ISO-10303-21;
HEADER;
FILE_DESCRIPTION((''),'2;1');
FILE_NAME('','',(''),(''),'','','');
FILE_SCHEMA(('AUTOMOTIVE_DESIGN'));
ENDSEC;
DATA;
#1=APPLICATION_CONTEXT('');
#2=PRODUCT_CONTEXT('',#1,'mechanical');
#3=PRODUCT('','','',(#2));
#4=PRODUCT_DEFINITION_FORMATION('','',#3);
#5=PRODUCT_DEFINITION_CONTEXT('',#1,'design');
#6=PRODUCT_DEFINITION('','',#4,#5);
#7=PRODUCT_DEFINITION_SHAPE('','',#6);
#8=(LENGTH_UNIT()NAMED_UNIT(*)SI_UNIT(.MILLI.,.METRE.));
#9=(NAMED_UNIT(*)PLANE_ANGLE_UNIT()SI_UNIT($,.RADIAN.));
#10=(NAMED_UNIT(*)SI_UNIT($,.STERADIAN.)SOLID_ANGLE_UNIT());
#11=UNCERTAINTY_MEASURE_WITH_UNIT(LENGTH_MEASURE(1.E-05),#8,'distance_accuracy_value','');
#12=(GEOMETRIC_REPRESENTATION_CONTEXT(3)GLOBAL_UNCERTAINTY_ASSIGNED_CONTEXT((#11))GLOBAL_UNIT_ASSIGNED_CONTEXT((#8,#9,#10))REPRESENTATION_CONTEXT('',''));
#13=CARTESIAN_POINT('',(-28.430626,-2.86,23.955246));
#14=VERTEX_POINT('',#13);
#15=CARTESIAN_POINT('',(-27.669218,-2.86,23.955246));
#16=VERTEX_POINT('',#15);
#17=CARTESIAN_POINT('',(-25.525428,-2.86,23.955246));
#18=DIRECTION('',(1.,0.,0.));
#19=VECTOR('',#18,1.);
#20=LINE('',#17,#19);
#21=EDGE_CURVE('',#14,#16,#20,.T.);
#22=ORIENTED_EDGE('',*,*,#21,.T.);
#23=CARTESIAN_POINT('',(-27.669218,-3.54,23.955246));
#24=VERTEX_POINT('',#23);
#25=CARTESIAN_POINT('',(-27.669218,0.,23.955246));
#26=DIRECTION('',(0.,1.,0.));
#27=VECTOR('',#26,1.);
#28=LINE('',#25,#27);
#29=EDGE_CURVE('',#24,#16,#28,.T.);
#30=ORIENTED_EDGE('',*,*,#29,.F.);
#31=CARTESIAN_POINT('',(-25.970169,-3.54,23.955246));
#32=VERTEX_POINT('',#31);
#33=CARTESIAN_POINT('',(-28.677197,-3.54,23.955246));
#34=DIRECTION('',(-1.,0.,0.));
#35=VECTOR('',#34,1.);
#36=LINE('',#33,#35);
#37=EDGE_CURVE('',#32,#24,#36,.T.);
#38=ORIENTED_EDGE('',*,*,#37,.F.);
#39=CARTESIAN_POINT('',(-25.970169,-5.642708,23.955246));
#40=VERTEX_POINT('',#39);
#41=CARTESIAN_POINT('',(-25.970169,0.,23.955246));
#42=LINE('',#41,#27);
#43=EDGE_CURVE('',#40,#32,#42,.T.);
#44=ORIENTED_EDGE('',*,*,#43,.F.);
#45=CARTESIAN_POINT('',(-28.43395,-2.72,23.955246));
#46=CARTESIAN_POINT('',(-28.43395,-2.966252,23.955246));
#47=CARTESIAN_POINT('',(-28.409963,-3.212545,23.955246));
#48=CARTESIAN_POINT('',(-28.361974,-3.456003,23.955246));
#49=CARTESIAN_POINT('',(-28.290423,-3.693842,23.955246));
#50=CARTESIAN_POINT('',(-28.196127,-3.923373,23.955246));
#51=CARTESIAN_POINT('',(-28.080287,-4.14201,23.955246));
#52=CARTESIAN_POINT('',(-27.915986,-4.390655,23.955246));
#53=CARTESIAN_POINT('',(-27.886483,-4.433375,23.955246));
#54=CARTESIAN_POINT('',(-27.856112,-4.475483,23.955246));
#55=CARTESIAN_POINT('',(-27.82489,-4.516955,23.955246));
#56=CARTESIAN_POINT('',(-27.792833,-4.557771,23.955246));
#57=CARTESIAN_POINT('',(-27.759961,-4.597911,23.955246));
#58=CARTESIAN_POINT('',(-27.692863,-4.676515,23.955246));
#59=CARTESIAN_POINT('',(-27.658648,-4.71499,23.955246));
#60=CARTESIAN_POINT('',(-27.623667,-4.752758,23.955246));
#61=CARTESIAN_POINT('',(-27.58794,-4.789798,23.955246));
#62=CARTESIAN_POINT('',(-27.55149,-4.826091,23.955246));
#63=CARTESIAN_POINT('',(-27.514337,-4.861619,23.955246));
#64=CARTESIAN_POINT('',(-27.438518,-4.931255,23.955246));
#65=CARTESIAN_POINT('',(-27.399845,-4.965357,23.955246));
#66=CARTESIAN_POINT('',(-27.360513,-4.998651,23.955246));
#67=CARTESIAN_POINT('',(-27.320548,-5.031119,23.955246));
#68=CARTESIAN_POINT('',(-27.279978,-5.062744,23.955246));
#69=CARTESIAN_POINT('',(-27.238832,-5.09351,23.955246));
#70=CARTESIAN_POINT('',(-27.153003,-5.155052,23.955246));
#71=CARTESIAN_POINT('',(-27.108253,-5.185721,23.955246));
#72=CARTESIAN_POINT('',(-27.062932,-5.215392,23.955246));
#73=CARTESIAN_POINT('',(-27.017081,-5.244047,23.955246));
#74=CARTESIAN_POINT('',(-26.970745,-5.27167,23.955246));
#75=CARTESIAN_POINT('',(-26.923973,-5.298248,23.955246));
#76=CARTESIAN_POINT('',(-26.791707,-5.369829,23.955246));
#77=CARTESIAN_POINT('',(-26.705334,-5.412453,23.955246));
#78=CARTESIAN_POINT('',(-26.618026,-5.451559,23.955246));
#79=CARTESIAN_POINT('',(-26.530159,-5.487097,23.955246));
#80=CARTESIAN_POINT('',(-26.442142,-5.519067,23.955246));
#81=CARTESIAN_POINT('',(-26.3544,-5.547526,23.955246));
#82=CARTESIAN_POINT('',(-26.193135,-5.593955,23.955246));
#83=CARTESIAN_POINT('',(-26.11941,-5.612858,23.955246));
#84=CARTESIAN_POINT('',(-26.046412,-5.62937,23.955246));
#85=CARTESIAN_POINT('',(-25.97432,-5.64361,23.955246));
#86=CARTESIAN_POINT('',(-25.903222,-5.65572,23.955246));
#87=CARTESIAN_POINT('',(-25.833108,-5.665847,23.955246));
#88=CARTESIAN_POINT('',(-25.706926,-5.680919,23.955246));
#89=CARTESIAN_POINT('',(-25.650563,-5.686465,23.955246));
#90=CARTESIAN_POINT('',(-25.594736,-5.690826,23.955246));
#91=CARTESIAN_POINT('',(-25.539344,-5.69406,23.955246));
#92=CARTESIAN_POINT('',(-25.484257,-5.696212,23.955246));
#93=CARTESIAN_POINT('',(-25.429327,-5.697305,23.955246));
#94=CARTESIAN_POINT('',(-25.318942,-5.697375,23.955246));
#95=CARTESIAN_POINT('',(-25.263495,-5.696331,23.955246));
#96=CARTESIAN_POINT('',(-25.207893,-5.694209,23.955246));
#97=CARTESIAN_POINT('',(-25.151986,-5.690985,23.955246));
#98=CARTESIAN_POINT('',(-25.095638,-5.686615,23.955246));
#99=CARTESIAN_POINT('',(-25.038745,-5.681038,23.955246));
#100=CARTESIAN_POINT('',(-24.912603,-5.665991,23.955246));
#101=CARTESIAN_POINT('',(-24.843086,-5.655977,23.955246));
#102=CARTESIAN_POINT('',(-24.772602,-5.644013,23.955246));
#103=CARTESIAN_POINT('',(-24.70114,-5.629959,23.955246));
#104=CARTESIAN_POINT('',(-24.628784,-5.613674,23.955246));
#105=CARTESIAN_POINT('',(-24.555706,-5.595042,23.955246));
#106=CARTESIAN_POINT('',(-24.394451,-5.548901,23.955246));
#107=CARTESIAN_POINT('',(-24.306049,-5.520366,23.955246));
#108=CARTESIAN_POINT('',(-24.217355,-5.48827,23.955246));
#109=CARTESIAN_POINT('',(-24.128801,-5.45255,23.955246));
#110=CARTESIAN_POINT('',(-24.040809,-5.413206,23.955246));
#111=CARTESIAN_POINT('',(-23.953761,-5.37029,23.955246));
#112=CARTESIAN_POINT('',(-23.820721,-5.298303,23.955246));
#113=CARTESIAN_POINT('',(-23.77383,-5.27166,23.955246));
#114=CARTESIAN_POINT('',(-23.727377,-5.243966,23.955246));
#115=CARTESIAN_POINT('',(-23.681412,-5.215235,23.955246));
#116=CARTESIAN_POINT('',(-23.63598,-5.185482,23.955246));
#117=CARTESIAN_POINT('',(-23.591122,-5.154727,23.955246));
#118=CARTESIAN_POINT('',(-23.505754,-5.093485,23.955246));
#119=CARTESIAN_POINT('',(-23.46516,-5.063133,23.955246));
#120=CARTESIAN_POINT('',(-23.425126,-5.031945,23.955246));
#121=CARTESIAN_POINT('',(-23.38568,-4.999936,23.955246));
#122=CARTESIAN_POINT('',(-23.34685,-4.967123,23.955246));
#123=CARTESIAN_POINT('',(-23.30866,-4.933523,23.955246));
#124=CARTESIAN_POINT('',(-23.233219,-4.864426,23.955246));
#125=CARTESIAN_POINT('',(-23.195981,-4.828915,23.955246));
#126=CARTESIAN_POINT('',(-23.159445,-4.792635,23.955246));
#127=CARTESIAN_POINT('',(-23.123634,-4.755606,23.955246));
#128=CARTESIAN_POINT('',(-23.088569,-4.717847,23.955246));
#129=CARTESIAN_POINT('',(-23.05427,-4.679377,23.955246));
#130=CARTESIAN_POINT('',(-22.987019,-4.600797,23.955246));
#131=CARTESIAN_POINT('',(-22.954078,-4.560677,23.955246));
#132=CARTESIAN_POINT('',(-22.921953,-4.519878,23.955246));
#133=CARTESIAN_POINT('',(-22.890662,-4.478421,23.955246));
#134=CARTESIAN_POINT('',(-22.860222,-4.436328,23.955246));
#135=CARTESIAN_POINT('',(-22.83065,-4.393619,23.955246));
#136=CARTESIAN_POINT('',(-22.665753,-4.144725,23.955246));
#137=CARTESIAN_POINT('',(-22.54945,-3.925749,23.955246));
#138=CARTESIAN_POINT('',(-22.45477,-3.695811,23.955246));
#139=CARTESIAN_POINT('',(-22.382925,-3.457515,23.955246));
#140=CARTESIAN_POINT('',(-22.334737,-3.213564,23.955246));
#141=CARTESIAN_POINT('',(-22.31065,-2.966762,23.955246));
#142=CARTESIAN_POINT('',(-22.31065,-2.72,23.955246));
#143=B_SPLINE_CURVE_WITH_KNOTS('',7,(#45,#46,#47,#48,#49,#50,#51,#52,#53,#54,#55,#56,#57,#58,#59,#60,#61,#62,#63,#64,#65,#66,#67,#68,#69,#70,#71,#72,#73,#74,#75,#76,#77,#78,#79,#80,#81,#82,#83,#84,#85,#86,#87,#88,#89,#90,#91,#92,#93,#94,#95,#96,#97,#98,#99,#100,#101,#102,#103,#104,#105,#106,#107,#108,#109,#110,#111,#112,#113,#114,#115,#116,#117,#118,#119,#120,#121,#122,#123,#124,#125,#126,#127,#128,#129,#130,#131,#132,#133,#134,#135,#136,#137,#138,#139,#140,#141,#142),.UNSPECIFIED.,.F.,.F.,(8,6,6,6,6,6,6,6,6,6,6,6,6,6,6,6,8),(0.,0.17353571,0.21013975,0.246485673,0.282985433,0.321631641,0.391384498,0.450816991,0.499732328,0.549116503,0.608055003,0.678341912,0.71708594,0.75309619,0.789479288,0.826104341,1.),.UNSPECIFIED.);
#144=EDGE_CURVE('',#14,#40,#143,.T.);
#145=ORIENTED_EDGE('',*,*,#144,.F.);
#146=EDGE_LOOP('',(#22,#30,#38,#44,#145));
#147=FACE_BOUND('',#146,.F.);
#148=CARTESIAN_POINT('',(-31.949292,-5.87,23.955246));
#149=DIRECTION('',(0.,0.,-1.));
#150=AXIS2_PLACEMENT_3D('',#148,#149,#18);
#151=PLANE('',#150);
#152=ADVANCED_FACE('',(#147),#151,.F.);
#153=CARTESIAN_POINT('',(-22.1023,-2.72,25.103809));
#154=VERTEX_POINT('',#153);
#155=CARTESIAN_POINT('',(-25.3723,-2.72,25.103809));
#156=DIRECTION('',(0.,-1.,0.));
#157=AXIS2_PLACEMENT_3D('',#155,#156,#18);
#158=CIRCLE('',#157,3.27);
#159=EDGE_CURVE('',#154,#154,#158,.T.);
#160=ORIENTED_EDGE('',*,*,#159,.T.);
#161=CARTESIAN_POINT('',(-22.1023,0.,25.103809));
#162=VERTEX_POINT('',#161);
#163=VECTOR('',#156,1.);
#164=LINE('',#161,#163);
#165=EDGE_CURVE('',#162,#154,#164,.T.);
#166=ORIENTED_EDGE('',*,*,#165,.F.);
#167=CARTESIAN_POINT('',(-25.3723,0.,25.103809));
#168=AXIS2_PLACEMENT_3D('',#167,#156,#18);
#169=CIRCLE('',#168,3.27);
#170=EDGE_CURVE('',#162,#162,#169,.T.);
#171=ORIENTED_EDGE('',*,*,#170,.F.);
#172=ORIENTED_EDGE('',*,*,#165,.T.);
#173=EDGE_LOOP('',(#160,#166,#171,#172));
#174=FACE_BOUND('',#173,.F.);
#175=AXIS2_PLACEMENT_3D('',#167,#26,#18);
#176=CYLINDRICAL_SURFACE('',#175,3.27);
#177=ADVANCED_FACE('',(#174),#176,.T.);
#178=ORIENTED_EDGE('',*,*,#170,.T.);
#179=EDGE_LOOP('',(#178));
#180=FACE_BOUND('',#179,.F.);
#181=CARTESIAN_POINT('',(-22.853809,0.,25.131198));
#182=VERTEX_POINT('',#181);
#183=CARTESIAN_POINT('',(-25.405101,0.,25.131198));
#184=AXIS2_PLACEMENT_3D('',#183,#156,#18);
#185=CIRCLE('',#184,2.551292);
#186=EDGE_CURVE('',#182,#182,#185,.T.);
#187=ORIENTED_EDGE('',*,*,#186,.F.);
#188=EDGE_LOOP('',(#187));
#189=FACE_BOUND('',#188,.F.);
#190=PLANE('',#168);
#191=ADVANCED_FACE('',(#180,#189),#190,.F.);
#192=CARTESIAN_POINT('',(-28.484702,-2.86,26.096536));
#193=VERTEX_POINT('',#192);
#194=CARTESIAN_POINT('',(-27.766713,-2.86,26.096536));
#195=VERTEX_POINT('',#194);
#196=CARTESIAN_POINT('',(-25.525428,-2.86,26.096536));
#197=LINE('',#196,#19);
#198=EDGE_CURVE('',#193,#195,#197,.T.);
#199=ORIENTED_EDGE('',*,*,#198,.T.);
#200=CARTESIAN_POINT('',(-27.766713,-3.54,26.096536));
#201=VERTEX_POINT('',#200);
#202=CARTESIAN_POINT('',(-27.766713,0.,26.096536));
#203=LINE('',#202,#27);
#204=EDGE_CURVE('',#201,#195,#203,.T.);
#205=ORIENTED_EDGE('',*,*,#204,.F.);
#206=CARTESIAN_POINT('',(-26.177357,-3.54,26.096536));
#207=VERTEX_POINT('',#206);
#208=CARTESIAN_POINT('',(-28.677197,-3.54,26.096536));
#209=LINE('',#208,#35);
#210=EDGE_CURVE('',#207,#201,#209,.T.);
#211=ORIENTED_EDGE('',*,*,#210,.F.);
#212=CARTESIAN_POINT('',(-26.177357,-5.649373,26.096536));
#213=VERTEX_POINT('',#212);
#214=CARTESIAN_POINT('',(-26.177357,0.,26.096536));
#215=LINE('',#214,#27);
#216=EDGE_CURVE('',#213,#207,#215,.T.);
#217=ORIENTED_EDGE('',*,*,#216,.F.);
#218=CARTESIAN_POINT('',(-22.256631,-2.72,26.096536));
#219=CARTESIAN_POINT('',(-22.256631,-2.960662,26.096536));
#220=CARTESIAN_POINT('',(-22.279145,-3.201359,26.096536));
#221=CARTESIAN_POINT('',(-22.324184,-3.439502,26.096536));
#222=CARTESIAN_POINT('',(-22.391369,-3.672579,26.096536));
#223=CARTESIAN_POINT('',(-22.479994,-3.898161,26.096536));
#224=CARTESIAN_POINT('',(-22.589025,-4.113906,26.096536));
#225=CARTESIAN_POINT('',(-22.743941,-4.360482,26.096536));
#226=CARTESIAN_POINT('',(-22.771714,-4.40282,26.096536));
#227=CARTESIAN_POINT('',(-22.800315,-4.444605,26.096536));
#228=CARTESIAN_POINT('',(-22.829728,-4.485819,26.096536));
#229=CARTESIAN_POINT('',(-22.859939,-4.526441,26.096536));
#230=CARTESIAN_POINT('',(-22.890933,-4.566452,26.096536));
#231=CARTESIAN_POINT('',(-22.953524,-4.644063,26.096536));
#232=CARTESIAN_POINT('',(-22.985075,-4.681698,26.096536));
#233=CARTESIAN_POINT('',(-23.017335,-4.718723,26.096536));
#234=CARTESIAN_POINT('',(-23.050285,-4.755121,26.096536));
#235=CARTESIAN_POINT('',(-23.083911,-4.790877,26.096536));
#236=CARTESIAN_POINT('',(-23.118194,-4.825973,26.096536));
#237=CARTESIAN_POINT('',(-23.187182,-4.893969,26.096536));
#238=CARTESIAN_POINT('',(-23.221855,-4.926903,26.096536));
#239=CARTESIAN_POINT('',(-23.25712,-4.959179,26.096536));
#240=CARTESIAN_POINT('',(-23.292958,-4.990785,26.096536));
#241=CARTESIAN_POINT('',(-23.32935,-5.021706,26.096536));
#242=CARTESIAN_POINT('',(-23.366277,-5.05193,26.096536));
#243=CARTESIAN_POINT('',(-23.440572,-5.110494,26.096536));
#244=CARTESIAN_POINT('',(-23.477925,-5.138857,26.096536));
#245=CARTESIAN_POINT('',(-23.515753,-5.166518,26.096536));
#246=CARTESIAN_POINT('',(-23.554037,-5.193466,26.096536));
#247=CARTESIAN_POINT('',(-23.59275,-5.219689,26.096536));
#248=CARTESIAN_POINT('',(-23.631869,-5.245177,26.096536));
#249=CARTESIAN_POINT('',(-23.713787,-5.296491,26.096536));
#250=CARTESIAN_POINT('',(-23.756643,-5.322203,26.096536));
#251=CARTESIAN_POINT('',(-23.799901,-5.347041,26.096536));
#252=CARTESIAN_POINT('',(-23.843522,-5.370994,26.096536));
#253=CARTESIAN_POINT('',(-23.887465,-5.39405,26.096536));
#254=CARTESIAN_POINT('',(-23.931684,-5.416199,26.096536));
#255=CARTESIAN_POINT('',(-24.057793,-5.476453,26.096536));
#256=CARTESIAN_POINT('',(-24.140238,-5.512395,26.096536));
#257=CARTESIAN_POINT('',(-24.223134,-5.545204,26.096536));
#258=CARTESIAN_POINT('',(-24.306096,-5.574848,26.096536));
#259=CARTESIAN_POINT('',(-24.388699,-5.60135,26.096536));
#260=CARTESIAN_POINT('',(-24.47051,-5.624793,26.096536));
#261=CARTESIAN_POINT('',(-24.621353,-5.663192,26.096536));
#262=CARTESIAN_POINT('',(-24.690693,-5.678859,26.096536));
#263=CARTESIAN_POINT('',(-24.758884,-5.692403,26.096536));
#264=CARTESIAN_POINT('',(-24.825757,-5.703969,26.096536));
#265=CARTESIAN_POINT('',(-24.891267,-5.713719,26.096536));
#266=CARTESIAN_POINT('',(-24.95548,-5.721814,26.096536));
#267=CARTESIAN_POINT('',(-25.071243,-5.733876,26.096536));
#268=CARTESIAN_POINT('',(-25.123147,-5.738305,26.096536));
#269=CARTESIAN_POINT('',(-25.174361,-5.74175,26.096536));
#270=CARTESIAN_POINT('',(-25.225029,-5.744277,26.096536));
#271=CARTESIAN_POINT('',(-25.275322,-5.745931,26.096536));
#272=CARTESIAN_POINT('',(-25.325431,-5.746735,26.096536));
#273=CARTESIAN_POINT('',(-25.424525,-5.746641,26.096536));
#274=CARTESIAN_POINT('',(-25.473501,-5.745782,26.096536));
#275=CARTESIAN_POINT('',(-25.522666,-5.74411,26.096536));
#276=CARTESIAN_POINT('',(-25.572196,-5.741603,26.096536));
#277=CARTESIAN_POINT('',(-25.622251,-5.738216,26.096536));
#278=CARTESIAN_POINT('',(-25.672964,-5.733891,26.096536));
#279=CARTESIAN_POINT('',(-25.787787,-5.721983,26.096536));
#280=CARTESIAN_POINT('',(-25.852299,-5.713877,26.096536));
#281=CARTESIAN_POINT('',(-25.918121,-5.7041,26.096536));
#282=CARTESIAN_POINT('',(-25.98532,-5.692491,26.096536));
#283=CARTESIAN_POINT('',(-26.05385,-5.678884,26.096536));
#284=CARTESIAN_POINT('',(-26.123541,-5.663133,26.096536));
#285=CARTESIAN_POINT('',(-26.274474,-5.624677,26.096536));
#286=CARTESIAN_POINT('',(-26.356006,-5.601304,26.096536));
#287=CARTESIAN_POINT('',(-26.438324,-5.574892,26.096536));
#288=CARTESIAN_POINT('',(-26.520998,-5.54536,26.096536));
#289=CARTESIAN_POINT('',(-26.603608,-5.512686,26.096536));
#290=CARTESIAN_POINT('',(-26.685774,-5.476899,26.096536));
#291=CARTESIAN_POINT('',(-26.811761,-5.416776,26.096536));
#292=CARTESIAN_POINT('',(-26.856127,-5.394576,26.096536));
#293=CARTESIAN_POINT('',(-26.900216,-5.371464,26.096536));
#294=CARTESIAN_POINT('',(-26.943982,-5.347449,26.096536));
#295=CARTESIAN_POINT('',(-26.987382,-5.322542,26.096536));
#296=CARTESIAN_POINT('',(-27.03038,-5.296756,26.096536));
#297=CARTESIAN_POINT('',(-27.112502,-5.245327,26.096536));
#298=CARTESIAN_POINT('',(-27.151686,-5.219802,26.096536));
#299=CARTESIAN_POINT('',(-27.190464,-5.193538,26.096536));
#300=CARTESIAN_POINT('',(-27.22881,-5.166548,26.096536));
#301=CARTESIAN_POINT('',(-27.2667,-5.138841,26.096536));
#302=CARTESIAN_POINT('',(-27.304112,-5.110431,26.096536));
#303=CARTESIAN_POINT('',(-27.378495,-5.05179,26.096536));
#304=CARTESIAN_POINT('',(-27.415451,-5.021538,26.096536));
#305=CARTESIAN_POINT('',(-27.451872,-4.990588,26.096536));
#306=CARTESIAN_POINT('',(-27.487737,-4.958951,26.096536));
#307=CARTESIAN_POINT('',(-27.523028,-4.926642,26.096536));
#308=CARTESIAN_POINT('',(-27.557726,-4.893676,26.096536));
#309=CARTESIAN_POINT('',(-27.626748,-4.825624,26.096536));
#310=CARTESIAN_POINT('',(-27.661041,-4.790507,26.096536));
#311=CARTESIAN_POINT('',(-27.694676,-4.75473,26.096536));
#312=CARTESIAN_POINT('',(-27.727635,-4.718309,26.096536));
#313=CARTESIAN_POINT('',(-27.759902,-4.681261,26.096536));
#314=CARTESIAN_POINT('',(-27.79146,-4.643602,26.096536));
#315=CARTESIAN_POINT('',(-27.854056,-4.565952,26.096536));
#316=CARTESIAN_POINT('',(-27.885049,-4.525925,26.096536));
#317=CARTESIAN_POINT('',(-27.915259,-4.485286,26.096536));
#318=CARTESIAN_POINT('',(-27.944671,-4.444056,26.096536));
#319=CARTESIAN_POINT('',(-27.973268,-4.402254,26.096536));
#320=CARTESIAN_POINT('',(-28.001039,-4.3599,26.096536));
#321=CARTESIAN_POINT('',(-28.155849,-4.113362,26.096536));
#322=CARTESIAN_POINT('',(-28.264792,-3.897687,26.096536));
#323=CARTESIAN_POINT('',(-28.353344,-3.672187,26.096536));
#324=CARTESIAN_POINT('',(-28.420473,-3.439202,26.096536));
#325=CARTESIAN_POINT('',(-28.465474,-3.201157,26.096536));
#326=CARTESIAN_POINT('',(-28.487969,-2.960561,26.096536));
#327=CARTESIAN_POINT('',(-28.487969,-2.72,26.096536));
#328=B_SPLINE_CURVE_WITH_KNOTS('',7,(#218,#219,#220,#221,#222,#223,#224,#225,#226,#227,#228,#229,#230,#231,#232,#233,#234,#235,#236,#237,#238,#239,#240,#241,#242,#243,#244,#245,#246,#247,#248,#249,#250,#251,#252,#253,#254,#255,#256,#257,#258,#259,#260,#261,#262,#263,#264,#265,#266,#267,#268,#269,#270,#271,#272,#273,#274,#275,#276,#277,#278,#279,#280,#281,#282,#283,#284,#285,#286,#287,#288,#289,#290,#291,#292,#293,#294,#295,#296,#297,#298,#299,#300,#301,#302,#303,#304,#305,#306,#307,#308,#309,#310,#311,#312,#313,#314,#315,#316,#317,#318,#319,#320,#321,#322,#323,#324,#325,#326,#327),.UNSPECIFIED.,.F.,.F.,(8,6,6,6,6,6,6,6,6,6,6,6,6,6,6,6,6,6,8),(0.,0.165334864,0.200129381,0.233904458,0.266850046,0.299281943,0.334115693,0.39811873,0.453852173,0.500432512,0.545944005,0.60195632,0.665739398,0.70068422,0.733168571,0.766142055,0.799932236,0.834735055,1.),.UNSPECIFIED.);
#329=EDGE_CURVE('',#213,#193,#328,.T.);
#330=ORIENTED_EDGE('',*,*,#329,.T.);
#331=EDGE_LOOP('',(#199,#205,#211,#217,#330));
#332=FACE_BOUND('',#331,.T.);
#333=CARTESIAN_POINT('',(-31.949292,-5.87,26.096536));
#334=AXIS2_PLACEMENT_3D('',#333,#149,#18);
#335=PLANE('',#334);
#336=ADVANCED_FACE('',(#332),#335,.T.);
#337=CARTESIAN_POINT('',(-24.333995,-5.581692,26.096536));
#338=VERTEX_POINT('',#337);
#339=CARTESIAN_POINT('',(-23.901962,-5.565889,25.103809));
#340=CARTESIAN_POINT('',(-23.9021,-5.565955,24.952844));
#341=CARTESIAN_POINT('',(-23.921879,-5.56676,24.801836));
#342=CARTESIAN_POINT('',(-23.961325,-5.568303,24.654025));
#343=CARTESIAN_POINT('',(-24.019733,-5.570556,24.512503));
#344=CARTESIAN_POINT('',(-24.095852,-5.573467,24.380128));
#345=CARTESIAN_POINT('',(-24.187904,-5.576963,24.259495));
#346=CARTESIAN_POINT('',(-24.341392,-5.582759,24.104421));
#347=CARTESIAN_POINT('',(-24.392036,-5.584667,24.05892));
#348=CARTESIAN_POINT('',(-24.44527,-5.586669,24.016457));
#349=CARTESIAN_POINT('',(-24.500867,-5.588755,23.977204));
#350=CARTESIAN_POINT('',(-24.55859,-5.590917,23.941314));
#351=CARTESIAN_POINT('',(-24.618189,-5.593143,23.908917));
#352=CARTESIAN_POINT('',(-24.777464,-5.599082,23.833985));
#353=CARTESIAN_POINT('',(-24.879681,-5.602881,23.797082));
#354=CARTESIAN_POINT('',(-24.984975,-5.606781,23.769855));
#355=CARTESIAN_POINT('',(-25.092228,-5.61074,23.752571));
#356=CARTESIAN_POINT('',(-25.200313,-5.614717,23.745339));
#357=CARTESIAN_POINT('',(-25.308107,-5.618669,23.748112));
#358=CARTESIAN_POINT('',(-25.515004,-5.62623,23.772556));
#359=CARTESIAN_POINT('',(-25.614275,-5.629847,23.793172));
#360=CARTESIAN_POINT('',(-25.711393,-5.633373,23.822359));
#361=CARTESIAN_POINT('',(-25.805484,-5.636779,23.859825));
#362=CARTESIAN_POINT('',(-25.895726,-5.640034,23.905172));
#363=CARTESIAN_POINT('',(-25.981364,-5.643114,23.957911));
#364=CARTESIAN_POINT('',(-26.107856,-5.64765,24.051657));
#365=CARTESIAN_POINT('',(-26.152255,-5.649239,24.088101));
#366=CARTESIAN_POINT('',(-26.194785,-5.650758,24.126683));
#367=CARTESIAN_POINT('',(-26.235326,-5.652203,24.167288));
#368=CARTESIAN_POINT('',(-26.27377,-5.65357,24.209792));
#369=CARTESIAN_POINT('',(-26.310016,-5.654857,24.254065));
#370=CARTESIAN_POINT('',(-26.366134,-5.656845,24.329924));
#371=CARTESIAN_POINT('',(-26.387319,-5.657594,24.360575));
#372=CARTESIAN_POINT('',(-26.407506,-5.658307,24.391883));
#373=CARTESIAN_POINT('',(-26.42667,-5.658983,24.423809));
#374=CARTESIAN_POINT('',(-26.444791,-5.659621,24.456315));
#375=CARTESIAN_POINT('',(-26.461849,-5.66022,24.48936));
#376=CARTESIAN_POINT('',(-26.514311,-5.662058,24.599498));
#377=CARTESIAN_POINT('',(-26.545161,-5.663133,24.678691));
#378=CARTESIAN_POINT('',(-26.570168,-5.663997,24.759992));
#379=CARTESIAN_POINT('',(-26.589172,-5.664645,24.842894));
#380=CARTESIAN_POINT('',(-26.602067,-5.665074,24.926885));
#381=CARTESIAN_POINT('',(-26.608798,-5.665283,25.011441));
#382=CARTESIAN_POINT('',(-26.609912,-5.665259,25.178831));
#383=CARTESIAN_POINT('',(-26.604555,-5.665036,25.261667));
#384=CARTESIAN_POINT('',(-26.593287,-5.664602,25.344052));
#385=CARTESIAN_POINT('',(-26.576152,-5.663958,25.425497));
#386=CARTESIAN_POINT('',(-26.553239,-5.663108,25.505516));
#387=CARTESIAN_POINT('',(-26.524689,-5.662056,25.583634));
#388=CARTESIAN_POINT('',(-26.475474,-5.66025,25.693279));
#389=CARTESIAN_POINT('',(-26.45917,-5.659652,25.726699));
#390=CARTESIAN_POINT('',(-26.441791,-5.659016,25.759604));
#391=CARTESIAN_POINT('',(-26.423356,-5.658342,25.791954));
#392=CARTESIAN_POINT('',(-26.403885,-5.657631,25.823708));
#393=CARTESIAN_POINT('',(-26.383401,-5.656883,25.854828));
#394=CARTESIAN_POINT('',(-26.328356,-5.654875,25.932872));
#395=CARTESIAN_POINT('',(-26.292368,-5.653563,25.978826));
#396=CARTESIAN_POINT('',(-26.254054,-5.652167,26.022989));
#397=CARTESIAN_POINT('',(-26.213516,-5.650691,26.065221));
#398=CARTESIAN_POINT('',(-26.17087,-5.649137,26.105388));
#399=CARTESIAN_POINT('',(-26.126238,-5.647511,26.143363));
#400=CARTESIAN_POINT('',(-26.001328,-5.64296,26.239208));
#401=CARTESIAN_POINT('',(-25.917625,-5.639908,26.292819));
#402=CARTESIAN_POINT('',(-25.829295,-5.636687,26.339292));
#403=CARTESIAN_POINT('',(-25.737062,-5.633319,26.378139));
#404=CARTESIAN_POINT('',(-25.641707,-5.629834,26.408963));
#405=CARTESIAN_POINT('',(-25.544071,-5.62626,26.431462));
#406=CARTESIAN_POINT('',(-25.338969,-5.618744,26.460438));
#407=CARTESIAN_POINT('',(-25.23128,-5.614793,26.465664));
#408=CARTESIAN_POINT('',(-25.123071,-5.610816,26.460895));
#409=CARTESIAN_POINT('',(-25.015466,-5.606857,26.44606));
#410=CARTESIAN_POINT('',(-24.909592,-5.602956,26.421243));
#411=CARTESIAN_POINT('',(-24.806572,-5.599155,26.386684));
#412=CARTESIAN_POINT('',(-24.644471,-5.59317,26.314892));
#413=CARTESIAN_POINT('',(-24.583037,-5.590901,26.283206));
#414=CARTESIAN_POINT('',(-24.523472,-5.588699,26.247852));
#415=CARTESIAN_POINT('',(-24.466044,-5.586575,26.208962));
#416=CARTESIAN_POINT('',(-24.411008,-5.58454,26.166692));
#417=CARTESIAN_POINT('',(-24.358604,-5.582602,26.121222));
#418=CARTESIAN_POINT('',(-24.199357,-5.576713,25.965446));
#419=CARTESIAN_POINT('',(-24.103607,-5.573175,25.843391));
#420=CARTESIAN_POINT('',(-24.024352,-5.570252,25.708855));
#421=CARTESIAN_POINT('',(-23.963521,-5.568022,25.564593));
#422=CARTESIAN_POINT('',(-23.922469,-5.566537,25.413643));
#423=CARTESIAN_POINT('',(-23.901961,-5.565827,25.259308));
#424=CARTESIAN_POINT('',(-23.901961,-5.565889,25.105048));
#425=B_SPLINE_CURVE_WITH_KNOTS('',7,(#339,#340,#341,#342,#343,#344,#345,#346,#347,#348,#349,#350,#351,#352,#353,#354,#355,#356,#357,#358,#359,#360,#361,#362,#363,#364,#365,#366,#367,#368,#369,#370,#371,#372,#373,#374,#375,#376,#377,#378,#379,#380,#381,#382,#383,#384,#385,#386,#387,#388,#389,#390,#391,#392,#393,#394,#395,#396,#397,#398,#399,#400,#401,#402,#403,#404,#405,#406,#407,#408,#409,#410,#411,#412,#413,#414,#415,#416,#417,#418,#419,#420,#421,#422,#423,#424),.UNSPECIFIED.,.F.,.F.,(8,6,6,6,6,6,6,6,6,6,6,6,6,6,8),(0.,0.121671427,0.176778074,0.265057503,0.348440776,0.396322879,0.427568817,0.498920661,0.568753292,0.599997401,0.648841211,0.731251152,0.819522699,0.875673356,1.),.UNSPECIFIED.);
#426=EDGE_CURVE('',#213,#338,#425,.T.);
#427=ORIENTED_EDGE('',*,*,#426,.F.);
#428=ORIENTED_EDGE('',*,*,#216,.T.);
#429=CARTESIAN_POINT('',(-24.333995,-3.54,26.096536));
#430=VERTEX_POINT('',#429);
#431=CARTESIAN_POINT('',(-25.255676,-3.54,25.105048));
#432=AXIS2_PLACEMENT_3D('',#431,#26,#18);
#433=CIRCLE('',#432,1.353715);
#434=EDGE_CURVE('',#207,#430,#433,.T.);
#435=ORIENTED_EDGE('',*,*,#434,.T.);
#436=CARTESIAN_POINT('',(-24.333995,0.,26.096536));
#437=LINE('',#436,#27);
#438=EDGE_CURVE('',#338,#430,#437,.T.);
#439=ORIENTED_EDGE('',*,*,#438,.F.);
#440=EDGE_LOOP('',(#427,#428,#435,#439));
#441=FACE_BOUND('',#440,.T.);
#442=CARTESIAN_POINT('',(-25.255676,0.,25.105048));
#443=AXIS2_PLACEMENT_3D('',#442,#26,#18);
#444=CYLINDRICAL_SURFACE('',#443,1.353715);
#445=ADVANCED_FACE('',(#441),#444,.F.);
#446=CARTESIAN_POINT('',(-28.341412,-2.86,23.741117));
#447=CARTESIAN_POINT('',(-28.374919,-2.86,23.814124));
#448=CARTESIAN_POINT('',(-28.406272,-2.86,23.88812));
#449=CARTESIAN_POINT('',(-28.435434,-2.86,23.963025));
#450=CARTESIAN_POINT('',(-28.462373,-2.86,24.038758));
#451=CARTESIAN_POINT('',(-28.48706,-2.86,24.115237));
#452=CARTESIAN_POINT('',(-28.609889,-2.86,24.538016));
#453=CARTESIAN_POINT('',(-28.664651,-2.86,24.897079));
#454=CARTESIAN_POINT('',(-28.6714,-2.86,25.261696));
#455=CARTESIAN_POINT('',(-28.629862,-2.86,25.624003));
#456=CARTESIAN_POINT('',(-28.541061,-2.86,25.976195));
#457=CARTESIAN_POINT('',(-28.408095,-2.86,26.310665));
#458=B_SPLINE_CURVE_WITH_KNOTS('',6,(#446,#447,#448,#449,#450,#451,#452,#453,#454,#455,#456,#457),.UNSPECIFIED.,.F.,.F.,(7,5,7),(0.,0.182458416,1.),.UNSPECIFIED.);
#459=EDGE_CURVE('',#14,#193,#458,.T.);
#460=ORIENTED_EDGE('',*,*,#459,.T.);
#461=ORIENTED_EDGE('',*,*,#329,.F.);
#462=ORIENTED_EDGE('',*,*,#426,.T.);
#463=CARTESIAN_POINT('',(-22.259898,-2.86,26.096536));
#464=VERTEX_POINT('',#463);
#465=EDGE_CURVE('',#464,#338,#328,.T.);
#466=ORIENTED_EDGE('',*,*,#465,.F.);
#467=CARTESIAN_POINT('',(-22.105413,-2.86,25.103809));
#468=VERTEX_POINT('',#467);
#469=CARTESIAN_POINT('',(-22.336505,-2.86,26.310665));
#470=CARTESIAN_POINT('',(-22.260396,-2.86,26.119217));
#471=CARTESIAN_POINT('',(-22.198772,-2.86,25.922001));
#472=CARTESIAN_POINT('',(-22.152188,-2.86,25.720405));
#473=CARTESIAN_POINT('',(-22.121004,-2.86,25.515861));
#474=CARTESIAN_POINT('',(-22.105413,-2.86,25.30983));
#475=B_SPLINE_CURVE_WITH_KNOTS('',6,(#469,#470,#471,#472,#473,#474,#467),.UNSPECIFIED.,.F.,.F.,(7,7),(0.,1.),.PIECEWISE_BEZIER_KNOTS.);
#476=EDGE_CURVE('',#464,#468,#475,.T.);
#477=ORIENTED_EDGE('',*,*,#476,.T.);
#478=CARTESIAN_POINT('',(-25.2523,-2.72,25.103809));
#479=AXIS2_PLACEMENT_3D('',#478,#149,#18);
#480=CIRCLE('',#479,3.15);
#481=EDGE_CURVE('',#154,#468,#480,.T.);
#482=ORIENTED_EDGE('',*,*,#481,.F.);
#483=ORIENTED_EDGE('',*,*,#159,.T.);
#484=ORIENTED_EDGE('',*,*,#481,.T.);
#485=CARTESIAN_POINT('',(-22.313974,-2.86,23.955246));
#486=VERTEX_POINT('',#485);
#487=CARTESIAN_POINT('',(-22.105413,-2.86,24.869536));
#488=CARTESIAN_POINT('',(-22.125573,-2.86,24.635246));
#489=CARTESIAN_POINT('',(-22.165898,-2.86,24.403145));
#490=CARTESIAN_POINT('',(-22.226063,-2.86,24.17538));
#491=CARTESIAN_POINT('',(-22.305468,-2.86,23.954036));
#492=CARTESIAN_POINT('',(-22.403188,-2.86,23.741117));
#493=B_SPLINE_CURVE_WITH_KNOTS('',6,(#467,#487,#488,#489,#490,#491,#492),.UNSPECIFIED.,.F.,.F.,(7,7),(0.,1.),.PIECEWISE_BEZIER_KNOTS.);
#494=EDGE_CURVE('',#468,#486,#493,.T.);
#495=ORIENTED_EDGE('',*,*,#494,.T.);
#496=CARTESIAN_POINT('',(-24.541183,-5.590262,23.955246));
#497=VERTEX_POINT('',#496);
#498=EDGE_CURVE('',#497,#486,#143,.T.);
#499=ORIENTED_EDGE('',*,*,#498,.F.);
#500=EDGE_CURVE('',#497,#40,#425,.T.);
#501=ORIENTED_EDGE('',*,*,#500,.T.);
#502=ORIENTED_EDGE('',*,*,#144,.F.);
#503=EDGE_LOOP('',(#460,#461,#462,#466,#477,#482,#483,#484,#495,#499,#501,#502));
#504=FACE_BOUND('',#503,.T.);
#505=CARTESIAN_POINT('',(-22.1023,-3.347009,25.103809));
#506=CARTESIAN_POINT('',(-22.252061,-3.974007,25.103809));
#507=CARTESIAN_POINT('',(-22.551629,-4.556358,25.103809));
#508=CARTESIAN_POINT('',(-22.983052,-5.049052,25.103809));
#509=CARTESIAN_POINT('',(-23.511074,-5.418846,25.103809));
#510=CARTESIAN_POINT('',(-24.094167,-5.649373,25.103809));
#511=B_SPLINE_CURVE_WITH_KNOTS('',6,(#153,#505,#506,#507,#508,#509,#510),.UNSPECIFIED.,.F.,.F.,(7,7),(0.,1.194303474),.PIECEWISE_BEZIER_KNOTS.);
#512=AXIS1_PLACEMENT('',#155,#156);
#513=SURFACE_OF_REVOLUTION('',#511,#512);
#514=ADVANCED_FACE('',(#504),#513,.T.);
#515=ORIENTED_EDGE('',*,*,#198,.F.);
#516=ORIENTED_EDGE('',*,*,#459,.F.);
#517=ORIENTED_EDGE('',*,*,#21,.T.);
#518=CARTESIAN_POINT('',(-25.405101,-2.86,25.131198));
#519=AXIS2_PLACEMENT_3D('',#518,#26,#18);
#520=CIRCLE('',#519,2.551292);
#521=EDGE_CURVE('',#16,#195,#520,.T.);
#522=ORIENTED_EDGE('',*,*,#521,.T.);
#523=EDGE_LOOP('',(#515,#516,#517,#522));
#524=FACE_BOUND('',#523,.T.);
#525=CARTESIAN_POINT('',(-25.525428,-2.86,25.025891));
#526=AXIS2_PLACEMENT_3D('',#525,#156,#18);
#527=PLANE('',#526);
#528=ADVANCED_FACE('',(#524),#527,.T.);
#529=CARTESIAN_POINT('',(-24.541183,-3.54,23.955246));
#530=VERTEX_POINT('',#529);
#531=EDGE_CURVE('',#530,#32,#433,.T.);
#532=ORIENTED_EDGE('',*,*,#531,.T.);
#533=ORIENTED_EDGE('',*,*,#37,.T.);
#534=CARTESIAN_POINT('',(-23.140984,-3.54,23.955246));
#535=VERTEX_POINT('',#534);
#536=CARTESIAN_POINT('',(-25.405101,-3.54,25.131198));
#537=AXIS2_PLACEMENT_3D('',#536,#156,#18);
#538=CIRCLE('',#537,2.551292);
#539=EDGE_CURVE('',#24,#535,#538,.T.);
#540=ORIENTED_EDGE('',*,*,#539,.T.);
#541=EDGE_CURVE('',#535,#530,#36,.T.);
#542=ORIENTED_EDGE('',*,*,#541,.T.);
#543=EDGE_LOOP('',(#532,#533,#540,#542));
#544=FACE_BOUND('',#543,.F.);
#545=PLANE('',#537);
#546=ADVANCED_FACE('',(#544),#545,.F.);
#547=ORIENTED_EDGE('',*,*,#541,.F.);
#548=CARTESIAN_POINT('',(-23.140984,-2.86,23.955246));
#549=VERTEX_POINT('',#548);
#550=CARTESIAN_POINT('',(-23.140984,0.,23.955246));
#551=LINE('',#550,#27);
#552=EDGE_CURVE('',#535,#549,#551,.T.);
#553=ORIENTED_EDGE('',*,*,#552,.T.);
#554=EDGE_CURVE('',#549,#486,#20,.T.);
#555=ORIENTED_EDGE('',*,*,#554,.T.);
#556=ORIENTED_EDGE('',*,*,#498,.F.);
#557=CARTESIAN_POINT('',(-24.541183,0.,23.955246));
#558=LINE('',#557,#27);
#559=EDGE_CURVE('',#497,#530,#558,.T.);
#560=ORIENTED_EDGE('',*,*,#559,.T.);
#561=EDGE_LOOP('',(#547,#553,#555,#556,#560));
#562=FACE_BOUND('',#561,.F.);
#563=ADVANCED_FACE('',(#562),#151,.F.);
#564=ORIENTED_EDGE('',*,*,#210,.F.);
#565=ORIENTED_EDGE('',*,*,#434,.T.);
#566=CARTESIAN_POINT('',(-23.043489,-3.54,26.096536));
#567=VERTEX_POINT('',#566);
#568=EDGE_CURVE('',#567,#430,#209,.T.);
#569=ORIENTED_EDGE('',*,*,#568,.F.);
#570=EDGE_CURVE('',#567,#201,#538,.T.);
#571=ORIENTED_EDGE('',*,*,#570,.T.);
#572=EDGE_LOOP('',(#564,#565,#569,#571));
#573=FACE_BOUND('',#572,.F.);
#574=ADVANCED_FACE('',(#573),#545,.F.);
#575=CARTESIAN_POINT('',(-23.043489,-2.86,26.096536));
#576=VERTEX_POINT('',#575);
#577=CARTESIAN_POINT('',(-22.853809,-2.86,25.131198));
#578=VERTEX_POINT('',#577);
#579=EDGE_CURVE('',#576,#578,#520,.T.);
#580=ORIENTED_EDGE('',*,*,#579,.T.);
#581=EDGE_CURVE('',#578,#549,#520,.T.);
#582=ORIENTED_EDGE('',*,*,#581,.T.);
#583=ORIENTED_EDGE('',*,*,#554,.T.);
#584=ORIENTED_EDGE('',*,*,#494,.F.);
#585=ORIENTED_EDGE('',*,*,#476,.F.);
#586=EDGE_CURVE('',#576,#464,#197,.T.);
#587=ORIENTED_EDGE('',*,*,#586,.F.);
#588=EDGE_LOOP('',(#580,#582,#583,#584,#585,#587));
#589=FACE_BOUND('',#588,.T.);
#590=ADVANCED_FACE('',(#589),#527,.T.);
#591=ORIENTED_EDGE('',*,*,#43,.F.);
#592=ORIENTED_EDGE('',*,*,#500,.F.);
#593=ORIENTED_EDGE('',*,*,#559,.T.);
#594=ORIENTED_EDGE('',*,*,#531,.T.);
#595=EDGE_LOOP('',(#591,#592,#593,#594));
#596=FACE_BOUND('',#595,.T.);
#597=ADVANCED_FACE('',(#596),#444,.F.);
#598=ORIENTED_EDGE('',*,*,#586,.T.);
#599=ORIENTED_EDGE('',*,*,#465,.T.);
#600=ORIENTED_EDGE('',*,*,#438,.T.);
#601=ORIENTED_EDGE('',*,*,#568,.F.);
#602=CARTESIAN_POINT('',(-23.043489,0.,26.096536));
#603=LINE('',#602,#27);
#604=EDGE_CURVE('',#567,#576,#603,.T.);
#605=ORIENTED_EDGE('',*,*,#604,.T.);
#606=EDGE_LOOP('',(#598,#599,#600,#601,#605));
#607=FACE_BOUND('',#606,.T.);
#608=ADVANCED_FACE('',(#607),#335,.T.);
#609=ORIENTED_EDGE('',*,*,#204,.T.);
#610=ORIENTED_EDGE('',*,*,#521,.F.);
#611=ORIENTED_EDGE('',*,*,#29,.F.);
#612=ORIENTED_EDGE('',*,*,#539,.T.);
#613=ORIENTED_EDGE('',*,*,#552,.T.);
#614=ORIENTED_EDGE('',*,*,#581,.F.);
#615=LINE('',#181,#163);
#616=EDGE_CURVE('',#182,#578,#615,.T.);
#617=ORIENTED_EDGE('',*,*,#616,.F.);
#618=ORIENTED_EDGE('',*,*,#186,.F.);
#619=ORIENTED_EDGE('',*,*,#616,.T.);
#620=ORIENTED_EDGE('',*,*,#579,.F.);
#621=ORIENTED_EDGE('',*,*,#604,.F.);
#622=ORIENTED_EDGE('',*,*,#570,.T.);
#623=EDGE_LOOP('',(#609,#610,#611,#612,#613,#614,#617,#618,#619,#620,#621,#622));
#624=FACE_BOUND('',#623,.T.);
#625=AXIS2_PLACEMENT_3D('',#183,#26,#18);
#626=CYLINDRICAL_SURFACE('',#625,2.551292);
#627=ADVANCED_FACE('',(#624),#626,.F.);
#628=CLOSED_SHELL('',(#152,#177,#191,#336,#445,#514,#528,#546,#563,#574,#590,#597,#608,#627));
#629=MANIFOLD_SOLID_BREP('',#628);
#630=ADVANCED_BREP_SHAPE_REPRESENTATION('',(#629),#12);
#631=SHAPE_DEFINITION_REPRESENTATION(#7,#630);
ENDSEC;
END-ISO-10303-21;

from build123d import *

# Parameters (mm, degrees)
F0_R     = 3.27
F1_DEPTH = 5.87
F2_R     = 3.15
F3_W     = 12.847729
F3_H     = 2.14129
F4_DEPTH = 3.01
F5_R     = 1.353715
F6_DEPTH = 25.4
F7_R     = 2.551292
F8_DEPTH = 3.54


with BuildPart() as f1:
    # F0 (on Front) → F1 (new body)
    with BuildSketch(Plane.XZ):
        with Locations((-25.3723, 25.103809)):
            Circle(F0_R)
    extrude(amount=F1_DEPTH)

    # F2
    f2_edges = [f1.edges().sort_by_distance(p)[0] for p in [
        (-28.6423, -5.87, 25.103809),
    ]]
    fillet(f2_edges, radius=F2_R)

    # F3 (on face) → F4 (cut)
    with BuildSketch(Plane.XZ.offset(5.87)):
        with Locations((-25.525428, 25.025891)):
            Rectangle(F3_W, F3_H)
    extrude(amount=-F4_DEPTH, mode=Mode.SUBTRACT)

    # F5 (on Front) → F6 (cut)
    with BuildSketch(Plane.XZ):
        with Locations((-25.255676, 25.105048)):
            Circle(F5_R)
    extrude(amount=F6_DEPTH, mode=Mode.SUBTRACT)

    # F7 (on Front) → F8 (cut)
    with BuildSketch(Plane.XZ):
        with Locations((-25.405101, 25.131198)):
            Circle(F7_R)
    extrude(amount=F8_DEPTH, mode=Mode.SUBTRACT)


solid = f1.part
